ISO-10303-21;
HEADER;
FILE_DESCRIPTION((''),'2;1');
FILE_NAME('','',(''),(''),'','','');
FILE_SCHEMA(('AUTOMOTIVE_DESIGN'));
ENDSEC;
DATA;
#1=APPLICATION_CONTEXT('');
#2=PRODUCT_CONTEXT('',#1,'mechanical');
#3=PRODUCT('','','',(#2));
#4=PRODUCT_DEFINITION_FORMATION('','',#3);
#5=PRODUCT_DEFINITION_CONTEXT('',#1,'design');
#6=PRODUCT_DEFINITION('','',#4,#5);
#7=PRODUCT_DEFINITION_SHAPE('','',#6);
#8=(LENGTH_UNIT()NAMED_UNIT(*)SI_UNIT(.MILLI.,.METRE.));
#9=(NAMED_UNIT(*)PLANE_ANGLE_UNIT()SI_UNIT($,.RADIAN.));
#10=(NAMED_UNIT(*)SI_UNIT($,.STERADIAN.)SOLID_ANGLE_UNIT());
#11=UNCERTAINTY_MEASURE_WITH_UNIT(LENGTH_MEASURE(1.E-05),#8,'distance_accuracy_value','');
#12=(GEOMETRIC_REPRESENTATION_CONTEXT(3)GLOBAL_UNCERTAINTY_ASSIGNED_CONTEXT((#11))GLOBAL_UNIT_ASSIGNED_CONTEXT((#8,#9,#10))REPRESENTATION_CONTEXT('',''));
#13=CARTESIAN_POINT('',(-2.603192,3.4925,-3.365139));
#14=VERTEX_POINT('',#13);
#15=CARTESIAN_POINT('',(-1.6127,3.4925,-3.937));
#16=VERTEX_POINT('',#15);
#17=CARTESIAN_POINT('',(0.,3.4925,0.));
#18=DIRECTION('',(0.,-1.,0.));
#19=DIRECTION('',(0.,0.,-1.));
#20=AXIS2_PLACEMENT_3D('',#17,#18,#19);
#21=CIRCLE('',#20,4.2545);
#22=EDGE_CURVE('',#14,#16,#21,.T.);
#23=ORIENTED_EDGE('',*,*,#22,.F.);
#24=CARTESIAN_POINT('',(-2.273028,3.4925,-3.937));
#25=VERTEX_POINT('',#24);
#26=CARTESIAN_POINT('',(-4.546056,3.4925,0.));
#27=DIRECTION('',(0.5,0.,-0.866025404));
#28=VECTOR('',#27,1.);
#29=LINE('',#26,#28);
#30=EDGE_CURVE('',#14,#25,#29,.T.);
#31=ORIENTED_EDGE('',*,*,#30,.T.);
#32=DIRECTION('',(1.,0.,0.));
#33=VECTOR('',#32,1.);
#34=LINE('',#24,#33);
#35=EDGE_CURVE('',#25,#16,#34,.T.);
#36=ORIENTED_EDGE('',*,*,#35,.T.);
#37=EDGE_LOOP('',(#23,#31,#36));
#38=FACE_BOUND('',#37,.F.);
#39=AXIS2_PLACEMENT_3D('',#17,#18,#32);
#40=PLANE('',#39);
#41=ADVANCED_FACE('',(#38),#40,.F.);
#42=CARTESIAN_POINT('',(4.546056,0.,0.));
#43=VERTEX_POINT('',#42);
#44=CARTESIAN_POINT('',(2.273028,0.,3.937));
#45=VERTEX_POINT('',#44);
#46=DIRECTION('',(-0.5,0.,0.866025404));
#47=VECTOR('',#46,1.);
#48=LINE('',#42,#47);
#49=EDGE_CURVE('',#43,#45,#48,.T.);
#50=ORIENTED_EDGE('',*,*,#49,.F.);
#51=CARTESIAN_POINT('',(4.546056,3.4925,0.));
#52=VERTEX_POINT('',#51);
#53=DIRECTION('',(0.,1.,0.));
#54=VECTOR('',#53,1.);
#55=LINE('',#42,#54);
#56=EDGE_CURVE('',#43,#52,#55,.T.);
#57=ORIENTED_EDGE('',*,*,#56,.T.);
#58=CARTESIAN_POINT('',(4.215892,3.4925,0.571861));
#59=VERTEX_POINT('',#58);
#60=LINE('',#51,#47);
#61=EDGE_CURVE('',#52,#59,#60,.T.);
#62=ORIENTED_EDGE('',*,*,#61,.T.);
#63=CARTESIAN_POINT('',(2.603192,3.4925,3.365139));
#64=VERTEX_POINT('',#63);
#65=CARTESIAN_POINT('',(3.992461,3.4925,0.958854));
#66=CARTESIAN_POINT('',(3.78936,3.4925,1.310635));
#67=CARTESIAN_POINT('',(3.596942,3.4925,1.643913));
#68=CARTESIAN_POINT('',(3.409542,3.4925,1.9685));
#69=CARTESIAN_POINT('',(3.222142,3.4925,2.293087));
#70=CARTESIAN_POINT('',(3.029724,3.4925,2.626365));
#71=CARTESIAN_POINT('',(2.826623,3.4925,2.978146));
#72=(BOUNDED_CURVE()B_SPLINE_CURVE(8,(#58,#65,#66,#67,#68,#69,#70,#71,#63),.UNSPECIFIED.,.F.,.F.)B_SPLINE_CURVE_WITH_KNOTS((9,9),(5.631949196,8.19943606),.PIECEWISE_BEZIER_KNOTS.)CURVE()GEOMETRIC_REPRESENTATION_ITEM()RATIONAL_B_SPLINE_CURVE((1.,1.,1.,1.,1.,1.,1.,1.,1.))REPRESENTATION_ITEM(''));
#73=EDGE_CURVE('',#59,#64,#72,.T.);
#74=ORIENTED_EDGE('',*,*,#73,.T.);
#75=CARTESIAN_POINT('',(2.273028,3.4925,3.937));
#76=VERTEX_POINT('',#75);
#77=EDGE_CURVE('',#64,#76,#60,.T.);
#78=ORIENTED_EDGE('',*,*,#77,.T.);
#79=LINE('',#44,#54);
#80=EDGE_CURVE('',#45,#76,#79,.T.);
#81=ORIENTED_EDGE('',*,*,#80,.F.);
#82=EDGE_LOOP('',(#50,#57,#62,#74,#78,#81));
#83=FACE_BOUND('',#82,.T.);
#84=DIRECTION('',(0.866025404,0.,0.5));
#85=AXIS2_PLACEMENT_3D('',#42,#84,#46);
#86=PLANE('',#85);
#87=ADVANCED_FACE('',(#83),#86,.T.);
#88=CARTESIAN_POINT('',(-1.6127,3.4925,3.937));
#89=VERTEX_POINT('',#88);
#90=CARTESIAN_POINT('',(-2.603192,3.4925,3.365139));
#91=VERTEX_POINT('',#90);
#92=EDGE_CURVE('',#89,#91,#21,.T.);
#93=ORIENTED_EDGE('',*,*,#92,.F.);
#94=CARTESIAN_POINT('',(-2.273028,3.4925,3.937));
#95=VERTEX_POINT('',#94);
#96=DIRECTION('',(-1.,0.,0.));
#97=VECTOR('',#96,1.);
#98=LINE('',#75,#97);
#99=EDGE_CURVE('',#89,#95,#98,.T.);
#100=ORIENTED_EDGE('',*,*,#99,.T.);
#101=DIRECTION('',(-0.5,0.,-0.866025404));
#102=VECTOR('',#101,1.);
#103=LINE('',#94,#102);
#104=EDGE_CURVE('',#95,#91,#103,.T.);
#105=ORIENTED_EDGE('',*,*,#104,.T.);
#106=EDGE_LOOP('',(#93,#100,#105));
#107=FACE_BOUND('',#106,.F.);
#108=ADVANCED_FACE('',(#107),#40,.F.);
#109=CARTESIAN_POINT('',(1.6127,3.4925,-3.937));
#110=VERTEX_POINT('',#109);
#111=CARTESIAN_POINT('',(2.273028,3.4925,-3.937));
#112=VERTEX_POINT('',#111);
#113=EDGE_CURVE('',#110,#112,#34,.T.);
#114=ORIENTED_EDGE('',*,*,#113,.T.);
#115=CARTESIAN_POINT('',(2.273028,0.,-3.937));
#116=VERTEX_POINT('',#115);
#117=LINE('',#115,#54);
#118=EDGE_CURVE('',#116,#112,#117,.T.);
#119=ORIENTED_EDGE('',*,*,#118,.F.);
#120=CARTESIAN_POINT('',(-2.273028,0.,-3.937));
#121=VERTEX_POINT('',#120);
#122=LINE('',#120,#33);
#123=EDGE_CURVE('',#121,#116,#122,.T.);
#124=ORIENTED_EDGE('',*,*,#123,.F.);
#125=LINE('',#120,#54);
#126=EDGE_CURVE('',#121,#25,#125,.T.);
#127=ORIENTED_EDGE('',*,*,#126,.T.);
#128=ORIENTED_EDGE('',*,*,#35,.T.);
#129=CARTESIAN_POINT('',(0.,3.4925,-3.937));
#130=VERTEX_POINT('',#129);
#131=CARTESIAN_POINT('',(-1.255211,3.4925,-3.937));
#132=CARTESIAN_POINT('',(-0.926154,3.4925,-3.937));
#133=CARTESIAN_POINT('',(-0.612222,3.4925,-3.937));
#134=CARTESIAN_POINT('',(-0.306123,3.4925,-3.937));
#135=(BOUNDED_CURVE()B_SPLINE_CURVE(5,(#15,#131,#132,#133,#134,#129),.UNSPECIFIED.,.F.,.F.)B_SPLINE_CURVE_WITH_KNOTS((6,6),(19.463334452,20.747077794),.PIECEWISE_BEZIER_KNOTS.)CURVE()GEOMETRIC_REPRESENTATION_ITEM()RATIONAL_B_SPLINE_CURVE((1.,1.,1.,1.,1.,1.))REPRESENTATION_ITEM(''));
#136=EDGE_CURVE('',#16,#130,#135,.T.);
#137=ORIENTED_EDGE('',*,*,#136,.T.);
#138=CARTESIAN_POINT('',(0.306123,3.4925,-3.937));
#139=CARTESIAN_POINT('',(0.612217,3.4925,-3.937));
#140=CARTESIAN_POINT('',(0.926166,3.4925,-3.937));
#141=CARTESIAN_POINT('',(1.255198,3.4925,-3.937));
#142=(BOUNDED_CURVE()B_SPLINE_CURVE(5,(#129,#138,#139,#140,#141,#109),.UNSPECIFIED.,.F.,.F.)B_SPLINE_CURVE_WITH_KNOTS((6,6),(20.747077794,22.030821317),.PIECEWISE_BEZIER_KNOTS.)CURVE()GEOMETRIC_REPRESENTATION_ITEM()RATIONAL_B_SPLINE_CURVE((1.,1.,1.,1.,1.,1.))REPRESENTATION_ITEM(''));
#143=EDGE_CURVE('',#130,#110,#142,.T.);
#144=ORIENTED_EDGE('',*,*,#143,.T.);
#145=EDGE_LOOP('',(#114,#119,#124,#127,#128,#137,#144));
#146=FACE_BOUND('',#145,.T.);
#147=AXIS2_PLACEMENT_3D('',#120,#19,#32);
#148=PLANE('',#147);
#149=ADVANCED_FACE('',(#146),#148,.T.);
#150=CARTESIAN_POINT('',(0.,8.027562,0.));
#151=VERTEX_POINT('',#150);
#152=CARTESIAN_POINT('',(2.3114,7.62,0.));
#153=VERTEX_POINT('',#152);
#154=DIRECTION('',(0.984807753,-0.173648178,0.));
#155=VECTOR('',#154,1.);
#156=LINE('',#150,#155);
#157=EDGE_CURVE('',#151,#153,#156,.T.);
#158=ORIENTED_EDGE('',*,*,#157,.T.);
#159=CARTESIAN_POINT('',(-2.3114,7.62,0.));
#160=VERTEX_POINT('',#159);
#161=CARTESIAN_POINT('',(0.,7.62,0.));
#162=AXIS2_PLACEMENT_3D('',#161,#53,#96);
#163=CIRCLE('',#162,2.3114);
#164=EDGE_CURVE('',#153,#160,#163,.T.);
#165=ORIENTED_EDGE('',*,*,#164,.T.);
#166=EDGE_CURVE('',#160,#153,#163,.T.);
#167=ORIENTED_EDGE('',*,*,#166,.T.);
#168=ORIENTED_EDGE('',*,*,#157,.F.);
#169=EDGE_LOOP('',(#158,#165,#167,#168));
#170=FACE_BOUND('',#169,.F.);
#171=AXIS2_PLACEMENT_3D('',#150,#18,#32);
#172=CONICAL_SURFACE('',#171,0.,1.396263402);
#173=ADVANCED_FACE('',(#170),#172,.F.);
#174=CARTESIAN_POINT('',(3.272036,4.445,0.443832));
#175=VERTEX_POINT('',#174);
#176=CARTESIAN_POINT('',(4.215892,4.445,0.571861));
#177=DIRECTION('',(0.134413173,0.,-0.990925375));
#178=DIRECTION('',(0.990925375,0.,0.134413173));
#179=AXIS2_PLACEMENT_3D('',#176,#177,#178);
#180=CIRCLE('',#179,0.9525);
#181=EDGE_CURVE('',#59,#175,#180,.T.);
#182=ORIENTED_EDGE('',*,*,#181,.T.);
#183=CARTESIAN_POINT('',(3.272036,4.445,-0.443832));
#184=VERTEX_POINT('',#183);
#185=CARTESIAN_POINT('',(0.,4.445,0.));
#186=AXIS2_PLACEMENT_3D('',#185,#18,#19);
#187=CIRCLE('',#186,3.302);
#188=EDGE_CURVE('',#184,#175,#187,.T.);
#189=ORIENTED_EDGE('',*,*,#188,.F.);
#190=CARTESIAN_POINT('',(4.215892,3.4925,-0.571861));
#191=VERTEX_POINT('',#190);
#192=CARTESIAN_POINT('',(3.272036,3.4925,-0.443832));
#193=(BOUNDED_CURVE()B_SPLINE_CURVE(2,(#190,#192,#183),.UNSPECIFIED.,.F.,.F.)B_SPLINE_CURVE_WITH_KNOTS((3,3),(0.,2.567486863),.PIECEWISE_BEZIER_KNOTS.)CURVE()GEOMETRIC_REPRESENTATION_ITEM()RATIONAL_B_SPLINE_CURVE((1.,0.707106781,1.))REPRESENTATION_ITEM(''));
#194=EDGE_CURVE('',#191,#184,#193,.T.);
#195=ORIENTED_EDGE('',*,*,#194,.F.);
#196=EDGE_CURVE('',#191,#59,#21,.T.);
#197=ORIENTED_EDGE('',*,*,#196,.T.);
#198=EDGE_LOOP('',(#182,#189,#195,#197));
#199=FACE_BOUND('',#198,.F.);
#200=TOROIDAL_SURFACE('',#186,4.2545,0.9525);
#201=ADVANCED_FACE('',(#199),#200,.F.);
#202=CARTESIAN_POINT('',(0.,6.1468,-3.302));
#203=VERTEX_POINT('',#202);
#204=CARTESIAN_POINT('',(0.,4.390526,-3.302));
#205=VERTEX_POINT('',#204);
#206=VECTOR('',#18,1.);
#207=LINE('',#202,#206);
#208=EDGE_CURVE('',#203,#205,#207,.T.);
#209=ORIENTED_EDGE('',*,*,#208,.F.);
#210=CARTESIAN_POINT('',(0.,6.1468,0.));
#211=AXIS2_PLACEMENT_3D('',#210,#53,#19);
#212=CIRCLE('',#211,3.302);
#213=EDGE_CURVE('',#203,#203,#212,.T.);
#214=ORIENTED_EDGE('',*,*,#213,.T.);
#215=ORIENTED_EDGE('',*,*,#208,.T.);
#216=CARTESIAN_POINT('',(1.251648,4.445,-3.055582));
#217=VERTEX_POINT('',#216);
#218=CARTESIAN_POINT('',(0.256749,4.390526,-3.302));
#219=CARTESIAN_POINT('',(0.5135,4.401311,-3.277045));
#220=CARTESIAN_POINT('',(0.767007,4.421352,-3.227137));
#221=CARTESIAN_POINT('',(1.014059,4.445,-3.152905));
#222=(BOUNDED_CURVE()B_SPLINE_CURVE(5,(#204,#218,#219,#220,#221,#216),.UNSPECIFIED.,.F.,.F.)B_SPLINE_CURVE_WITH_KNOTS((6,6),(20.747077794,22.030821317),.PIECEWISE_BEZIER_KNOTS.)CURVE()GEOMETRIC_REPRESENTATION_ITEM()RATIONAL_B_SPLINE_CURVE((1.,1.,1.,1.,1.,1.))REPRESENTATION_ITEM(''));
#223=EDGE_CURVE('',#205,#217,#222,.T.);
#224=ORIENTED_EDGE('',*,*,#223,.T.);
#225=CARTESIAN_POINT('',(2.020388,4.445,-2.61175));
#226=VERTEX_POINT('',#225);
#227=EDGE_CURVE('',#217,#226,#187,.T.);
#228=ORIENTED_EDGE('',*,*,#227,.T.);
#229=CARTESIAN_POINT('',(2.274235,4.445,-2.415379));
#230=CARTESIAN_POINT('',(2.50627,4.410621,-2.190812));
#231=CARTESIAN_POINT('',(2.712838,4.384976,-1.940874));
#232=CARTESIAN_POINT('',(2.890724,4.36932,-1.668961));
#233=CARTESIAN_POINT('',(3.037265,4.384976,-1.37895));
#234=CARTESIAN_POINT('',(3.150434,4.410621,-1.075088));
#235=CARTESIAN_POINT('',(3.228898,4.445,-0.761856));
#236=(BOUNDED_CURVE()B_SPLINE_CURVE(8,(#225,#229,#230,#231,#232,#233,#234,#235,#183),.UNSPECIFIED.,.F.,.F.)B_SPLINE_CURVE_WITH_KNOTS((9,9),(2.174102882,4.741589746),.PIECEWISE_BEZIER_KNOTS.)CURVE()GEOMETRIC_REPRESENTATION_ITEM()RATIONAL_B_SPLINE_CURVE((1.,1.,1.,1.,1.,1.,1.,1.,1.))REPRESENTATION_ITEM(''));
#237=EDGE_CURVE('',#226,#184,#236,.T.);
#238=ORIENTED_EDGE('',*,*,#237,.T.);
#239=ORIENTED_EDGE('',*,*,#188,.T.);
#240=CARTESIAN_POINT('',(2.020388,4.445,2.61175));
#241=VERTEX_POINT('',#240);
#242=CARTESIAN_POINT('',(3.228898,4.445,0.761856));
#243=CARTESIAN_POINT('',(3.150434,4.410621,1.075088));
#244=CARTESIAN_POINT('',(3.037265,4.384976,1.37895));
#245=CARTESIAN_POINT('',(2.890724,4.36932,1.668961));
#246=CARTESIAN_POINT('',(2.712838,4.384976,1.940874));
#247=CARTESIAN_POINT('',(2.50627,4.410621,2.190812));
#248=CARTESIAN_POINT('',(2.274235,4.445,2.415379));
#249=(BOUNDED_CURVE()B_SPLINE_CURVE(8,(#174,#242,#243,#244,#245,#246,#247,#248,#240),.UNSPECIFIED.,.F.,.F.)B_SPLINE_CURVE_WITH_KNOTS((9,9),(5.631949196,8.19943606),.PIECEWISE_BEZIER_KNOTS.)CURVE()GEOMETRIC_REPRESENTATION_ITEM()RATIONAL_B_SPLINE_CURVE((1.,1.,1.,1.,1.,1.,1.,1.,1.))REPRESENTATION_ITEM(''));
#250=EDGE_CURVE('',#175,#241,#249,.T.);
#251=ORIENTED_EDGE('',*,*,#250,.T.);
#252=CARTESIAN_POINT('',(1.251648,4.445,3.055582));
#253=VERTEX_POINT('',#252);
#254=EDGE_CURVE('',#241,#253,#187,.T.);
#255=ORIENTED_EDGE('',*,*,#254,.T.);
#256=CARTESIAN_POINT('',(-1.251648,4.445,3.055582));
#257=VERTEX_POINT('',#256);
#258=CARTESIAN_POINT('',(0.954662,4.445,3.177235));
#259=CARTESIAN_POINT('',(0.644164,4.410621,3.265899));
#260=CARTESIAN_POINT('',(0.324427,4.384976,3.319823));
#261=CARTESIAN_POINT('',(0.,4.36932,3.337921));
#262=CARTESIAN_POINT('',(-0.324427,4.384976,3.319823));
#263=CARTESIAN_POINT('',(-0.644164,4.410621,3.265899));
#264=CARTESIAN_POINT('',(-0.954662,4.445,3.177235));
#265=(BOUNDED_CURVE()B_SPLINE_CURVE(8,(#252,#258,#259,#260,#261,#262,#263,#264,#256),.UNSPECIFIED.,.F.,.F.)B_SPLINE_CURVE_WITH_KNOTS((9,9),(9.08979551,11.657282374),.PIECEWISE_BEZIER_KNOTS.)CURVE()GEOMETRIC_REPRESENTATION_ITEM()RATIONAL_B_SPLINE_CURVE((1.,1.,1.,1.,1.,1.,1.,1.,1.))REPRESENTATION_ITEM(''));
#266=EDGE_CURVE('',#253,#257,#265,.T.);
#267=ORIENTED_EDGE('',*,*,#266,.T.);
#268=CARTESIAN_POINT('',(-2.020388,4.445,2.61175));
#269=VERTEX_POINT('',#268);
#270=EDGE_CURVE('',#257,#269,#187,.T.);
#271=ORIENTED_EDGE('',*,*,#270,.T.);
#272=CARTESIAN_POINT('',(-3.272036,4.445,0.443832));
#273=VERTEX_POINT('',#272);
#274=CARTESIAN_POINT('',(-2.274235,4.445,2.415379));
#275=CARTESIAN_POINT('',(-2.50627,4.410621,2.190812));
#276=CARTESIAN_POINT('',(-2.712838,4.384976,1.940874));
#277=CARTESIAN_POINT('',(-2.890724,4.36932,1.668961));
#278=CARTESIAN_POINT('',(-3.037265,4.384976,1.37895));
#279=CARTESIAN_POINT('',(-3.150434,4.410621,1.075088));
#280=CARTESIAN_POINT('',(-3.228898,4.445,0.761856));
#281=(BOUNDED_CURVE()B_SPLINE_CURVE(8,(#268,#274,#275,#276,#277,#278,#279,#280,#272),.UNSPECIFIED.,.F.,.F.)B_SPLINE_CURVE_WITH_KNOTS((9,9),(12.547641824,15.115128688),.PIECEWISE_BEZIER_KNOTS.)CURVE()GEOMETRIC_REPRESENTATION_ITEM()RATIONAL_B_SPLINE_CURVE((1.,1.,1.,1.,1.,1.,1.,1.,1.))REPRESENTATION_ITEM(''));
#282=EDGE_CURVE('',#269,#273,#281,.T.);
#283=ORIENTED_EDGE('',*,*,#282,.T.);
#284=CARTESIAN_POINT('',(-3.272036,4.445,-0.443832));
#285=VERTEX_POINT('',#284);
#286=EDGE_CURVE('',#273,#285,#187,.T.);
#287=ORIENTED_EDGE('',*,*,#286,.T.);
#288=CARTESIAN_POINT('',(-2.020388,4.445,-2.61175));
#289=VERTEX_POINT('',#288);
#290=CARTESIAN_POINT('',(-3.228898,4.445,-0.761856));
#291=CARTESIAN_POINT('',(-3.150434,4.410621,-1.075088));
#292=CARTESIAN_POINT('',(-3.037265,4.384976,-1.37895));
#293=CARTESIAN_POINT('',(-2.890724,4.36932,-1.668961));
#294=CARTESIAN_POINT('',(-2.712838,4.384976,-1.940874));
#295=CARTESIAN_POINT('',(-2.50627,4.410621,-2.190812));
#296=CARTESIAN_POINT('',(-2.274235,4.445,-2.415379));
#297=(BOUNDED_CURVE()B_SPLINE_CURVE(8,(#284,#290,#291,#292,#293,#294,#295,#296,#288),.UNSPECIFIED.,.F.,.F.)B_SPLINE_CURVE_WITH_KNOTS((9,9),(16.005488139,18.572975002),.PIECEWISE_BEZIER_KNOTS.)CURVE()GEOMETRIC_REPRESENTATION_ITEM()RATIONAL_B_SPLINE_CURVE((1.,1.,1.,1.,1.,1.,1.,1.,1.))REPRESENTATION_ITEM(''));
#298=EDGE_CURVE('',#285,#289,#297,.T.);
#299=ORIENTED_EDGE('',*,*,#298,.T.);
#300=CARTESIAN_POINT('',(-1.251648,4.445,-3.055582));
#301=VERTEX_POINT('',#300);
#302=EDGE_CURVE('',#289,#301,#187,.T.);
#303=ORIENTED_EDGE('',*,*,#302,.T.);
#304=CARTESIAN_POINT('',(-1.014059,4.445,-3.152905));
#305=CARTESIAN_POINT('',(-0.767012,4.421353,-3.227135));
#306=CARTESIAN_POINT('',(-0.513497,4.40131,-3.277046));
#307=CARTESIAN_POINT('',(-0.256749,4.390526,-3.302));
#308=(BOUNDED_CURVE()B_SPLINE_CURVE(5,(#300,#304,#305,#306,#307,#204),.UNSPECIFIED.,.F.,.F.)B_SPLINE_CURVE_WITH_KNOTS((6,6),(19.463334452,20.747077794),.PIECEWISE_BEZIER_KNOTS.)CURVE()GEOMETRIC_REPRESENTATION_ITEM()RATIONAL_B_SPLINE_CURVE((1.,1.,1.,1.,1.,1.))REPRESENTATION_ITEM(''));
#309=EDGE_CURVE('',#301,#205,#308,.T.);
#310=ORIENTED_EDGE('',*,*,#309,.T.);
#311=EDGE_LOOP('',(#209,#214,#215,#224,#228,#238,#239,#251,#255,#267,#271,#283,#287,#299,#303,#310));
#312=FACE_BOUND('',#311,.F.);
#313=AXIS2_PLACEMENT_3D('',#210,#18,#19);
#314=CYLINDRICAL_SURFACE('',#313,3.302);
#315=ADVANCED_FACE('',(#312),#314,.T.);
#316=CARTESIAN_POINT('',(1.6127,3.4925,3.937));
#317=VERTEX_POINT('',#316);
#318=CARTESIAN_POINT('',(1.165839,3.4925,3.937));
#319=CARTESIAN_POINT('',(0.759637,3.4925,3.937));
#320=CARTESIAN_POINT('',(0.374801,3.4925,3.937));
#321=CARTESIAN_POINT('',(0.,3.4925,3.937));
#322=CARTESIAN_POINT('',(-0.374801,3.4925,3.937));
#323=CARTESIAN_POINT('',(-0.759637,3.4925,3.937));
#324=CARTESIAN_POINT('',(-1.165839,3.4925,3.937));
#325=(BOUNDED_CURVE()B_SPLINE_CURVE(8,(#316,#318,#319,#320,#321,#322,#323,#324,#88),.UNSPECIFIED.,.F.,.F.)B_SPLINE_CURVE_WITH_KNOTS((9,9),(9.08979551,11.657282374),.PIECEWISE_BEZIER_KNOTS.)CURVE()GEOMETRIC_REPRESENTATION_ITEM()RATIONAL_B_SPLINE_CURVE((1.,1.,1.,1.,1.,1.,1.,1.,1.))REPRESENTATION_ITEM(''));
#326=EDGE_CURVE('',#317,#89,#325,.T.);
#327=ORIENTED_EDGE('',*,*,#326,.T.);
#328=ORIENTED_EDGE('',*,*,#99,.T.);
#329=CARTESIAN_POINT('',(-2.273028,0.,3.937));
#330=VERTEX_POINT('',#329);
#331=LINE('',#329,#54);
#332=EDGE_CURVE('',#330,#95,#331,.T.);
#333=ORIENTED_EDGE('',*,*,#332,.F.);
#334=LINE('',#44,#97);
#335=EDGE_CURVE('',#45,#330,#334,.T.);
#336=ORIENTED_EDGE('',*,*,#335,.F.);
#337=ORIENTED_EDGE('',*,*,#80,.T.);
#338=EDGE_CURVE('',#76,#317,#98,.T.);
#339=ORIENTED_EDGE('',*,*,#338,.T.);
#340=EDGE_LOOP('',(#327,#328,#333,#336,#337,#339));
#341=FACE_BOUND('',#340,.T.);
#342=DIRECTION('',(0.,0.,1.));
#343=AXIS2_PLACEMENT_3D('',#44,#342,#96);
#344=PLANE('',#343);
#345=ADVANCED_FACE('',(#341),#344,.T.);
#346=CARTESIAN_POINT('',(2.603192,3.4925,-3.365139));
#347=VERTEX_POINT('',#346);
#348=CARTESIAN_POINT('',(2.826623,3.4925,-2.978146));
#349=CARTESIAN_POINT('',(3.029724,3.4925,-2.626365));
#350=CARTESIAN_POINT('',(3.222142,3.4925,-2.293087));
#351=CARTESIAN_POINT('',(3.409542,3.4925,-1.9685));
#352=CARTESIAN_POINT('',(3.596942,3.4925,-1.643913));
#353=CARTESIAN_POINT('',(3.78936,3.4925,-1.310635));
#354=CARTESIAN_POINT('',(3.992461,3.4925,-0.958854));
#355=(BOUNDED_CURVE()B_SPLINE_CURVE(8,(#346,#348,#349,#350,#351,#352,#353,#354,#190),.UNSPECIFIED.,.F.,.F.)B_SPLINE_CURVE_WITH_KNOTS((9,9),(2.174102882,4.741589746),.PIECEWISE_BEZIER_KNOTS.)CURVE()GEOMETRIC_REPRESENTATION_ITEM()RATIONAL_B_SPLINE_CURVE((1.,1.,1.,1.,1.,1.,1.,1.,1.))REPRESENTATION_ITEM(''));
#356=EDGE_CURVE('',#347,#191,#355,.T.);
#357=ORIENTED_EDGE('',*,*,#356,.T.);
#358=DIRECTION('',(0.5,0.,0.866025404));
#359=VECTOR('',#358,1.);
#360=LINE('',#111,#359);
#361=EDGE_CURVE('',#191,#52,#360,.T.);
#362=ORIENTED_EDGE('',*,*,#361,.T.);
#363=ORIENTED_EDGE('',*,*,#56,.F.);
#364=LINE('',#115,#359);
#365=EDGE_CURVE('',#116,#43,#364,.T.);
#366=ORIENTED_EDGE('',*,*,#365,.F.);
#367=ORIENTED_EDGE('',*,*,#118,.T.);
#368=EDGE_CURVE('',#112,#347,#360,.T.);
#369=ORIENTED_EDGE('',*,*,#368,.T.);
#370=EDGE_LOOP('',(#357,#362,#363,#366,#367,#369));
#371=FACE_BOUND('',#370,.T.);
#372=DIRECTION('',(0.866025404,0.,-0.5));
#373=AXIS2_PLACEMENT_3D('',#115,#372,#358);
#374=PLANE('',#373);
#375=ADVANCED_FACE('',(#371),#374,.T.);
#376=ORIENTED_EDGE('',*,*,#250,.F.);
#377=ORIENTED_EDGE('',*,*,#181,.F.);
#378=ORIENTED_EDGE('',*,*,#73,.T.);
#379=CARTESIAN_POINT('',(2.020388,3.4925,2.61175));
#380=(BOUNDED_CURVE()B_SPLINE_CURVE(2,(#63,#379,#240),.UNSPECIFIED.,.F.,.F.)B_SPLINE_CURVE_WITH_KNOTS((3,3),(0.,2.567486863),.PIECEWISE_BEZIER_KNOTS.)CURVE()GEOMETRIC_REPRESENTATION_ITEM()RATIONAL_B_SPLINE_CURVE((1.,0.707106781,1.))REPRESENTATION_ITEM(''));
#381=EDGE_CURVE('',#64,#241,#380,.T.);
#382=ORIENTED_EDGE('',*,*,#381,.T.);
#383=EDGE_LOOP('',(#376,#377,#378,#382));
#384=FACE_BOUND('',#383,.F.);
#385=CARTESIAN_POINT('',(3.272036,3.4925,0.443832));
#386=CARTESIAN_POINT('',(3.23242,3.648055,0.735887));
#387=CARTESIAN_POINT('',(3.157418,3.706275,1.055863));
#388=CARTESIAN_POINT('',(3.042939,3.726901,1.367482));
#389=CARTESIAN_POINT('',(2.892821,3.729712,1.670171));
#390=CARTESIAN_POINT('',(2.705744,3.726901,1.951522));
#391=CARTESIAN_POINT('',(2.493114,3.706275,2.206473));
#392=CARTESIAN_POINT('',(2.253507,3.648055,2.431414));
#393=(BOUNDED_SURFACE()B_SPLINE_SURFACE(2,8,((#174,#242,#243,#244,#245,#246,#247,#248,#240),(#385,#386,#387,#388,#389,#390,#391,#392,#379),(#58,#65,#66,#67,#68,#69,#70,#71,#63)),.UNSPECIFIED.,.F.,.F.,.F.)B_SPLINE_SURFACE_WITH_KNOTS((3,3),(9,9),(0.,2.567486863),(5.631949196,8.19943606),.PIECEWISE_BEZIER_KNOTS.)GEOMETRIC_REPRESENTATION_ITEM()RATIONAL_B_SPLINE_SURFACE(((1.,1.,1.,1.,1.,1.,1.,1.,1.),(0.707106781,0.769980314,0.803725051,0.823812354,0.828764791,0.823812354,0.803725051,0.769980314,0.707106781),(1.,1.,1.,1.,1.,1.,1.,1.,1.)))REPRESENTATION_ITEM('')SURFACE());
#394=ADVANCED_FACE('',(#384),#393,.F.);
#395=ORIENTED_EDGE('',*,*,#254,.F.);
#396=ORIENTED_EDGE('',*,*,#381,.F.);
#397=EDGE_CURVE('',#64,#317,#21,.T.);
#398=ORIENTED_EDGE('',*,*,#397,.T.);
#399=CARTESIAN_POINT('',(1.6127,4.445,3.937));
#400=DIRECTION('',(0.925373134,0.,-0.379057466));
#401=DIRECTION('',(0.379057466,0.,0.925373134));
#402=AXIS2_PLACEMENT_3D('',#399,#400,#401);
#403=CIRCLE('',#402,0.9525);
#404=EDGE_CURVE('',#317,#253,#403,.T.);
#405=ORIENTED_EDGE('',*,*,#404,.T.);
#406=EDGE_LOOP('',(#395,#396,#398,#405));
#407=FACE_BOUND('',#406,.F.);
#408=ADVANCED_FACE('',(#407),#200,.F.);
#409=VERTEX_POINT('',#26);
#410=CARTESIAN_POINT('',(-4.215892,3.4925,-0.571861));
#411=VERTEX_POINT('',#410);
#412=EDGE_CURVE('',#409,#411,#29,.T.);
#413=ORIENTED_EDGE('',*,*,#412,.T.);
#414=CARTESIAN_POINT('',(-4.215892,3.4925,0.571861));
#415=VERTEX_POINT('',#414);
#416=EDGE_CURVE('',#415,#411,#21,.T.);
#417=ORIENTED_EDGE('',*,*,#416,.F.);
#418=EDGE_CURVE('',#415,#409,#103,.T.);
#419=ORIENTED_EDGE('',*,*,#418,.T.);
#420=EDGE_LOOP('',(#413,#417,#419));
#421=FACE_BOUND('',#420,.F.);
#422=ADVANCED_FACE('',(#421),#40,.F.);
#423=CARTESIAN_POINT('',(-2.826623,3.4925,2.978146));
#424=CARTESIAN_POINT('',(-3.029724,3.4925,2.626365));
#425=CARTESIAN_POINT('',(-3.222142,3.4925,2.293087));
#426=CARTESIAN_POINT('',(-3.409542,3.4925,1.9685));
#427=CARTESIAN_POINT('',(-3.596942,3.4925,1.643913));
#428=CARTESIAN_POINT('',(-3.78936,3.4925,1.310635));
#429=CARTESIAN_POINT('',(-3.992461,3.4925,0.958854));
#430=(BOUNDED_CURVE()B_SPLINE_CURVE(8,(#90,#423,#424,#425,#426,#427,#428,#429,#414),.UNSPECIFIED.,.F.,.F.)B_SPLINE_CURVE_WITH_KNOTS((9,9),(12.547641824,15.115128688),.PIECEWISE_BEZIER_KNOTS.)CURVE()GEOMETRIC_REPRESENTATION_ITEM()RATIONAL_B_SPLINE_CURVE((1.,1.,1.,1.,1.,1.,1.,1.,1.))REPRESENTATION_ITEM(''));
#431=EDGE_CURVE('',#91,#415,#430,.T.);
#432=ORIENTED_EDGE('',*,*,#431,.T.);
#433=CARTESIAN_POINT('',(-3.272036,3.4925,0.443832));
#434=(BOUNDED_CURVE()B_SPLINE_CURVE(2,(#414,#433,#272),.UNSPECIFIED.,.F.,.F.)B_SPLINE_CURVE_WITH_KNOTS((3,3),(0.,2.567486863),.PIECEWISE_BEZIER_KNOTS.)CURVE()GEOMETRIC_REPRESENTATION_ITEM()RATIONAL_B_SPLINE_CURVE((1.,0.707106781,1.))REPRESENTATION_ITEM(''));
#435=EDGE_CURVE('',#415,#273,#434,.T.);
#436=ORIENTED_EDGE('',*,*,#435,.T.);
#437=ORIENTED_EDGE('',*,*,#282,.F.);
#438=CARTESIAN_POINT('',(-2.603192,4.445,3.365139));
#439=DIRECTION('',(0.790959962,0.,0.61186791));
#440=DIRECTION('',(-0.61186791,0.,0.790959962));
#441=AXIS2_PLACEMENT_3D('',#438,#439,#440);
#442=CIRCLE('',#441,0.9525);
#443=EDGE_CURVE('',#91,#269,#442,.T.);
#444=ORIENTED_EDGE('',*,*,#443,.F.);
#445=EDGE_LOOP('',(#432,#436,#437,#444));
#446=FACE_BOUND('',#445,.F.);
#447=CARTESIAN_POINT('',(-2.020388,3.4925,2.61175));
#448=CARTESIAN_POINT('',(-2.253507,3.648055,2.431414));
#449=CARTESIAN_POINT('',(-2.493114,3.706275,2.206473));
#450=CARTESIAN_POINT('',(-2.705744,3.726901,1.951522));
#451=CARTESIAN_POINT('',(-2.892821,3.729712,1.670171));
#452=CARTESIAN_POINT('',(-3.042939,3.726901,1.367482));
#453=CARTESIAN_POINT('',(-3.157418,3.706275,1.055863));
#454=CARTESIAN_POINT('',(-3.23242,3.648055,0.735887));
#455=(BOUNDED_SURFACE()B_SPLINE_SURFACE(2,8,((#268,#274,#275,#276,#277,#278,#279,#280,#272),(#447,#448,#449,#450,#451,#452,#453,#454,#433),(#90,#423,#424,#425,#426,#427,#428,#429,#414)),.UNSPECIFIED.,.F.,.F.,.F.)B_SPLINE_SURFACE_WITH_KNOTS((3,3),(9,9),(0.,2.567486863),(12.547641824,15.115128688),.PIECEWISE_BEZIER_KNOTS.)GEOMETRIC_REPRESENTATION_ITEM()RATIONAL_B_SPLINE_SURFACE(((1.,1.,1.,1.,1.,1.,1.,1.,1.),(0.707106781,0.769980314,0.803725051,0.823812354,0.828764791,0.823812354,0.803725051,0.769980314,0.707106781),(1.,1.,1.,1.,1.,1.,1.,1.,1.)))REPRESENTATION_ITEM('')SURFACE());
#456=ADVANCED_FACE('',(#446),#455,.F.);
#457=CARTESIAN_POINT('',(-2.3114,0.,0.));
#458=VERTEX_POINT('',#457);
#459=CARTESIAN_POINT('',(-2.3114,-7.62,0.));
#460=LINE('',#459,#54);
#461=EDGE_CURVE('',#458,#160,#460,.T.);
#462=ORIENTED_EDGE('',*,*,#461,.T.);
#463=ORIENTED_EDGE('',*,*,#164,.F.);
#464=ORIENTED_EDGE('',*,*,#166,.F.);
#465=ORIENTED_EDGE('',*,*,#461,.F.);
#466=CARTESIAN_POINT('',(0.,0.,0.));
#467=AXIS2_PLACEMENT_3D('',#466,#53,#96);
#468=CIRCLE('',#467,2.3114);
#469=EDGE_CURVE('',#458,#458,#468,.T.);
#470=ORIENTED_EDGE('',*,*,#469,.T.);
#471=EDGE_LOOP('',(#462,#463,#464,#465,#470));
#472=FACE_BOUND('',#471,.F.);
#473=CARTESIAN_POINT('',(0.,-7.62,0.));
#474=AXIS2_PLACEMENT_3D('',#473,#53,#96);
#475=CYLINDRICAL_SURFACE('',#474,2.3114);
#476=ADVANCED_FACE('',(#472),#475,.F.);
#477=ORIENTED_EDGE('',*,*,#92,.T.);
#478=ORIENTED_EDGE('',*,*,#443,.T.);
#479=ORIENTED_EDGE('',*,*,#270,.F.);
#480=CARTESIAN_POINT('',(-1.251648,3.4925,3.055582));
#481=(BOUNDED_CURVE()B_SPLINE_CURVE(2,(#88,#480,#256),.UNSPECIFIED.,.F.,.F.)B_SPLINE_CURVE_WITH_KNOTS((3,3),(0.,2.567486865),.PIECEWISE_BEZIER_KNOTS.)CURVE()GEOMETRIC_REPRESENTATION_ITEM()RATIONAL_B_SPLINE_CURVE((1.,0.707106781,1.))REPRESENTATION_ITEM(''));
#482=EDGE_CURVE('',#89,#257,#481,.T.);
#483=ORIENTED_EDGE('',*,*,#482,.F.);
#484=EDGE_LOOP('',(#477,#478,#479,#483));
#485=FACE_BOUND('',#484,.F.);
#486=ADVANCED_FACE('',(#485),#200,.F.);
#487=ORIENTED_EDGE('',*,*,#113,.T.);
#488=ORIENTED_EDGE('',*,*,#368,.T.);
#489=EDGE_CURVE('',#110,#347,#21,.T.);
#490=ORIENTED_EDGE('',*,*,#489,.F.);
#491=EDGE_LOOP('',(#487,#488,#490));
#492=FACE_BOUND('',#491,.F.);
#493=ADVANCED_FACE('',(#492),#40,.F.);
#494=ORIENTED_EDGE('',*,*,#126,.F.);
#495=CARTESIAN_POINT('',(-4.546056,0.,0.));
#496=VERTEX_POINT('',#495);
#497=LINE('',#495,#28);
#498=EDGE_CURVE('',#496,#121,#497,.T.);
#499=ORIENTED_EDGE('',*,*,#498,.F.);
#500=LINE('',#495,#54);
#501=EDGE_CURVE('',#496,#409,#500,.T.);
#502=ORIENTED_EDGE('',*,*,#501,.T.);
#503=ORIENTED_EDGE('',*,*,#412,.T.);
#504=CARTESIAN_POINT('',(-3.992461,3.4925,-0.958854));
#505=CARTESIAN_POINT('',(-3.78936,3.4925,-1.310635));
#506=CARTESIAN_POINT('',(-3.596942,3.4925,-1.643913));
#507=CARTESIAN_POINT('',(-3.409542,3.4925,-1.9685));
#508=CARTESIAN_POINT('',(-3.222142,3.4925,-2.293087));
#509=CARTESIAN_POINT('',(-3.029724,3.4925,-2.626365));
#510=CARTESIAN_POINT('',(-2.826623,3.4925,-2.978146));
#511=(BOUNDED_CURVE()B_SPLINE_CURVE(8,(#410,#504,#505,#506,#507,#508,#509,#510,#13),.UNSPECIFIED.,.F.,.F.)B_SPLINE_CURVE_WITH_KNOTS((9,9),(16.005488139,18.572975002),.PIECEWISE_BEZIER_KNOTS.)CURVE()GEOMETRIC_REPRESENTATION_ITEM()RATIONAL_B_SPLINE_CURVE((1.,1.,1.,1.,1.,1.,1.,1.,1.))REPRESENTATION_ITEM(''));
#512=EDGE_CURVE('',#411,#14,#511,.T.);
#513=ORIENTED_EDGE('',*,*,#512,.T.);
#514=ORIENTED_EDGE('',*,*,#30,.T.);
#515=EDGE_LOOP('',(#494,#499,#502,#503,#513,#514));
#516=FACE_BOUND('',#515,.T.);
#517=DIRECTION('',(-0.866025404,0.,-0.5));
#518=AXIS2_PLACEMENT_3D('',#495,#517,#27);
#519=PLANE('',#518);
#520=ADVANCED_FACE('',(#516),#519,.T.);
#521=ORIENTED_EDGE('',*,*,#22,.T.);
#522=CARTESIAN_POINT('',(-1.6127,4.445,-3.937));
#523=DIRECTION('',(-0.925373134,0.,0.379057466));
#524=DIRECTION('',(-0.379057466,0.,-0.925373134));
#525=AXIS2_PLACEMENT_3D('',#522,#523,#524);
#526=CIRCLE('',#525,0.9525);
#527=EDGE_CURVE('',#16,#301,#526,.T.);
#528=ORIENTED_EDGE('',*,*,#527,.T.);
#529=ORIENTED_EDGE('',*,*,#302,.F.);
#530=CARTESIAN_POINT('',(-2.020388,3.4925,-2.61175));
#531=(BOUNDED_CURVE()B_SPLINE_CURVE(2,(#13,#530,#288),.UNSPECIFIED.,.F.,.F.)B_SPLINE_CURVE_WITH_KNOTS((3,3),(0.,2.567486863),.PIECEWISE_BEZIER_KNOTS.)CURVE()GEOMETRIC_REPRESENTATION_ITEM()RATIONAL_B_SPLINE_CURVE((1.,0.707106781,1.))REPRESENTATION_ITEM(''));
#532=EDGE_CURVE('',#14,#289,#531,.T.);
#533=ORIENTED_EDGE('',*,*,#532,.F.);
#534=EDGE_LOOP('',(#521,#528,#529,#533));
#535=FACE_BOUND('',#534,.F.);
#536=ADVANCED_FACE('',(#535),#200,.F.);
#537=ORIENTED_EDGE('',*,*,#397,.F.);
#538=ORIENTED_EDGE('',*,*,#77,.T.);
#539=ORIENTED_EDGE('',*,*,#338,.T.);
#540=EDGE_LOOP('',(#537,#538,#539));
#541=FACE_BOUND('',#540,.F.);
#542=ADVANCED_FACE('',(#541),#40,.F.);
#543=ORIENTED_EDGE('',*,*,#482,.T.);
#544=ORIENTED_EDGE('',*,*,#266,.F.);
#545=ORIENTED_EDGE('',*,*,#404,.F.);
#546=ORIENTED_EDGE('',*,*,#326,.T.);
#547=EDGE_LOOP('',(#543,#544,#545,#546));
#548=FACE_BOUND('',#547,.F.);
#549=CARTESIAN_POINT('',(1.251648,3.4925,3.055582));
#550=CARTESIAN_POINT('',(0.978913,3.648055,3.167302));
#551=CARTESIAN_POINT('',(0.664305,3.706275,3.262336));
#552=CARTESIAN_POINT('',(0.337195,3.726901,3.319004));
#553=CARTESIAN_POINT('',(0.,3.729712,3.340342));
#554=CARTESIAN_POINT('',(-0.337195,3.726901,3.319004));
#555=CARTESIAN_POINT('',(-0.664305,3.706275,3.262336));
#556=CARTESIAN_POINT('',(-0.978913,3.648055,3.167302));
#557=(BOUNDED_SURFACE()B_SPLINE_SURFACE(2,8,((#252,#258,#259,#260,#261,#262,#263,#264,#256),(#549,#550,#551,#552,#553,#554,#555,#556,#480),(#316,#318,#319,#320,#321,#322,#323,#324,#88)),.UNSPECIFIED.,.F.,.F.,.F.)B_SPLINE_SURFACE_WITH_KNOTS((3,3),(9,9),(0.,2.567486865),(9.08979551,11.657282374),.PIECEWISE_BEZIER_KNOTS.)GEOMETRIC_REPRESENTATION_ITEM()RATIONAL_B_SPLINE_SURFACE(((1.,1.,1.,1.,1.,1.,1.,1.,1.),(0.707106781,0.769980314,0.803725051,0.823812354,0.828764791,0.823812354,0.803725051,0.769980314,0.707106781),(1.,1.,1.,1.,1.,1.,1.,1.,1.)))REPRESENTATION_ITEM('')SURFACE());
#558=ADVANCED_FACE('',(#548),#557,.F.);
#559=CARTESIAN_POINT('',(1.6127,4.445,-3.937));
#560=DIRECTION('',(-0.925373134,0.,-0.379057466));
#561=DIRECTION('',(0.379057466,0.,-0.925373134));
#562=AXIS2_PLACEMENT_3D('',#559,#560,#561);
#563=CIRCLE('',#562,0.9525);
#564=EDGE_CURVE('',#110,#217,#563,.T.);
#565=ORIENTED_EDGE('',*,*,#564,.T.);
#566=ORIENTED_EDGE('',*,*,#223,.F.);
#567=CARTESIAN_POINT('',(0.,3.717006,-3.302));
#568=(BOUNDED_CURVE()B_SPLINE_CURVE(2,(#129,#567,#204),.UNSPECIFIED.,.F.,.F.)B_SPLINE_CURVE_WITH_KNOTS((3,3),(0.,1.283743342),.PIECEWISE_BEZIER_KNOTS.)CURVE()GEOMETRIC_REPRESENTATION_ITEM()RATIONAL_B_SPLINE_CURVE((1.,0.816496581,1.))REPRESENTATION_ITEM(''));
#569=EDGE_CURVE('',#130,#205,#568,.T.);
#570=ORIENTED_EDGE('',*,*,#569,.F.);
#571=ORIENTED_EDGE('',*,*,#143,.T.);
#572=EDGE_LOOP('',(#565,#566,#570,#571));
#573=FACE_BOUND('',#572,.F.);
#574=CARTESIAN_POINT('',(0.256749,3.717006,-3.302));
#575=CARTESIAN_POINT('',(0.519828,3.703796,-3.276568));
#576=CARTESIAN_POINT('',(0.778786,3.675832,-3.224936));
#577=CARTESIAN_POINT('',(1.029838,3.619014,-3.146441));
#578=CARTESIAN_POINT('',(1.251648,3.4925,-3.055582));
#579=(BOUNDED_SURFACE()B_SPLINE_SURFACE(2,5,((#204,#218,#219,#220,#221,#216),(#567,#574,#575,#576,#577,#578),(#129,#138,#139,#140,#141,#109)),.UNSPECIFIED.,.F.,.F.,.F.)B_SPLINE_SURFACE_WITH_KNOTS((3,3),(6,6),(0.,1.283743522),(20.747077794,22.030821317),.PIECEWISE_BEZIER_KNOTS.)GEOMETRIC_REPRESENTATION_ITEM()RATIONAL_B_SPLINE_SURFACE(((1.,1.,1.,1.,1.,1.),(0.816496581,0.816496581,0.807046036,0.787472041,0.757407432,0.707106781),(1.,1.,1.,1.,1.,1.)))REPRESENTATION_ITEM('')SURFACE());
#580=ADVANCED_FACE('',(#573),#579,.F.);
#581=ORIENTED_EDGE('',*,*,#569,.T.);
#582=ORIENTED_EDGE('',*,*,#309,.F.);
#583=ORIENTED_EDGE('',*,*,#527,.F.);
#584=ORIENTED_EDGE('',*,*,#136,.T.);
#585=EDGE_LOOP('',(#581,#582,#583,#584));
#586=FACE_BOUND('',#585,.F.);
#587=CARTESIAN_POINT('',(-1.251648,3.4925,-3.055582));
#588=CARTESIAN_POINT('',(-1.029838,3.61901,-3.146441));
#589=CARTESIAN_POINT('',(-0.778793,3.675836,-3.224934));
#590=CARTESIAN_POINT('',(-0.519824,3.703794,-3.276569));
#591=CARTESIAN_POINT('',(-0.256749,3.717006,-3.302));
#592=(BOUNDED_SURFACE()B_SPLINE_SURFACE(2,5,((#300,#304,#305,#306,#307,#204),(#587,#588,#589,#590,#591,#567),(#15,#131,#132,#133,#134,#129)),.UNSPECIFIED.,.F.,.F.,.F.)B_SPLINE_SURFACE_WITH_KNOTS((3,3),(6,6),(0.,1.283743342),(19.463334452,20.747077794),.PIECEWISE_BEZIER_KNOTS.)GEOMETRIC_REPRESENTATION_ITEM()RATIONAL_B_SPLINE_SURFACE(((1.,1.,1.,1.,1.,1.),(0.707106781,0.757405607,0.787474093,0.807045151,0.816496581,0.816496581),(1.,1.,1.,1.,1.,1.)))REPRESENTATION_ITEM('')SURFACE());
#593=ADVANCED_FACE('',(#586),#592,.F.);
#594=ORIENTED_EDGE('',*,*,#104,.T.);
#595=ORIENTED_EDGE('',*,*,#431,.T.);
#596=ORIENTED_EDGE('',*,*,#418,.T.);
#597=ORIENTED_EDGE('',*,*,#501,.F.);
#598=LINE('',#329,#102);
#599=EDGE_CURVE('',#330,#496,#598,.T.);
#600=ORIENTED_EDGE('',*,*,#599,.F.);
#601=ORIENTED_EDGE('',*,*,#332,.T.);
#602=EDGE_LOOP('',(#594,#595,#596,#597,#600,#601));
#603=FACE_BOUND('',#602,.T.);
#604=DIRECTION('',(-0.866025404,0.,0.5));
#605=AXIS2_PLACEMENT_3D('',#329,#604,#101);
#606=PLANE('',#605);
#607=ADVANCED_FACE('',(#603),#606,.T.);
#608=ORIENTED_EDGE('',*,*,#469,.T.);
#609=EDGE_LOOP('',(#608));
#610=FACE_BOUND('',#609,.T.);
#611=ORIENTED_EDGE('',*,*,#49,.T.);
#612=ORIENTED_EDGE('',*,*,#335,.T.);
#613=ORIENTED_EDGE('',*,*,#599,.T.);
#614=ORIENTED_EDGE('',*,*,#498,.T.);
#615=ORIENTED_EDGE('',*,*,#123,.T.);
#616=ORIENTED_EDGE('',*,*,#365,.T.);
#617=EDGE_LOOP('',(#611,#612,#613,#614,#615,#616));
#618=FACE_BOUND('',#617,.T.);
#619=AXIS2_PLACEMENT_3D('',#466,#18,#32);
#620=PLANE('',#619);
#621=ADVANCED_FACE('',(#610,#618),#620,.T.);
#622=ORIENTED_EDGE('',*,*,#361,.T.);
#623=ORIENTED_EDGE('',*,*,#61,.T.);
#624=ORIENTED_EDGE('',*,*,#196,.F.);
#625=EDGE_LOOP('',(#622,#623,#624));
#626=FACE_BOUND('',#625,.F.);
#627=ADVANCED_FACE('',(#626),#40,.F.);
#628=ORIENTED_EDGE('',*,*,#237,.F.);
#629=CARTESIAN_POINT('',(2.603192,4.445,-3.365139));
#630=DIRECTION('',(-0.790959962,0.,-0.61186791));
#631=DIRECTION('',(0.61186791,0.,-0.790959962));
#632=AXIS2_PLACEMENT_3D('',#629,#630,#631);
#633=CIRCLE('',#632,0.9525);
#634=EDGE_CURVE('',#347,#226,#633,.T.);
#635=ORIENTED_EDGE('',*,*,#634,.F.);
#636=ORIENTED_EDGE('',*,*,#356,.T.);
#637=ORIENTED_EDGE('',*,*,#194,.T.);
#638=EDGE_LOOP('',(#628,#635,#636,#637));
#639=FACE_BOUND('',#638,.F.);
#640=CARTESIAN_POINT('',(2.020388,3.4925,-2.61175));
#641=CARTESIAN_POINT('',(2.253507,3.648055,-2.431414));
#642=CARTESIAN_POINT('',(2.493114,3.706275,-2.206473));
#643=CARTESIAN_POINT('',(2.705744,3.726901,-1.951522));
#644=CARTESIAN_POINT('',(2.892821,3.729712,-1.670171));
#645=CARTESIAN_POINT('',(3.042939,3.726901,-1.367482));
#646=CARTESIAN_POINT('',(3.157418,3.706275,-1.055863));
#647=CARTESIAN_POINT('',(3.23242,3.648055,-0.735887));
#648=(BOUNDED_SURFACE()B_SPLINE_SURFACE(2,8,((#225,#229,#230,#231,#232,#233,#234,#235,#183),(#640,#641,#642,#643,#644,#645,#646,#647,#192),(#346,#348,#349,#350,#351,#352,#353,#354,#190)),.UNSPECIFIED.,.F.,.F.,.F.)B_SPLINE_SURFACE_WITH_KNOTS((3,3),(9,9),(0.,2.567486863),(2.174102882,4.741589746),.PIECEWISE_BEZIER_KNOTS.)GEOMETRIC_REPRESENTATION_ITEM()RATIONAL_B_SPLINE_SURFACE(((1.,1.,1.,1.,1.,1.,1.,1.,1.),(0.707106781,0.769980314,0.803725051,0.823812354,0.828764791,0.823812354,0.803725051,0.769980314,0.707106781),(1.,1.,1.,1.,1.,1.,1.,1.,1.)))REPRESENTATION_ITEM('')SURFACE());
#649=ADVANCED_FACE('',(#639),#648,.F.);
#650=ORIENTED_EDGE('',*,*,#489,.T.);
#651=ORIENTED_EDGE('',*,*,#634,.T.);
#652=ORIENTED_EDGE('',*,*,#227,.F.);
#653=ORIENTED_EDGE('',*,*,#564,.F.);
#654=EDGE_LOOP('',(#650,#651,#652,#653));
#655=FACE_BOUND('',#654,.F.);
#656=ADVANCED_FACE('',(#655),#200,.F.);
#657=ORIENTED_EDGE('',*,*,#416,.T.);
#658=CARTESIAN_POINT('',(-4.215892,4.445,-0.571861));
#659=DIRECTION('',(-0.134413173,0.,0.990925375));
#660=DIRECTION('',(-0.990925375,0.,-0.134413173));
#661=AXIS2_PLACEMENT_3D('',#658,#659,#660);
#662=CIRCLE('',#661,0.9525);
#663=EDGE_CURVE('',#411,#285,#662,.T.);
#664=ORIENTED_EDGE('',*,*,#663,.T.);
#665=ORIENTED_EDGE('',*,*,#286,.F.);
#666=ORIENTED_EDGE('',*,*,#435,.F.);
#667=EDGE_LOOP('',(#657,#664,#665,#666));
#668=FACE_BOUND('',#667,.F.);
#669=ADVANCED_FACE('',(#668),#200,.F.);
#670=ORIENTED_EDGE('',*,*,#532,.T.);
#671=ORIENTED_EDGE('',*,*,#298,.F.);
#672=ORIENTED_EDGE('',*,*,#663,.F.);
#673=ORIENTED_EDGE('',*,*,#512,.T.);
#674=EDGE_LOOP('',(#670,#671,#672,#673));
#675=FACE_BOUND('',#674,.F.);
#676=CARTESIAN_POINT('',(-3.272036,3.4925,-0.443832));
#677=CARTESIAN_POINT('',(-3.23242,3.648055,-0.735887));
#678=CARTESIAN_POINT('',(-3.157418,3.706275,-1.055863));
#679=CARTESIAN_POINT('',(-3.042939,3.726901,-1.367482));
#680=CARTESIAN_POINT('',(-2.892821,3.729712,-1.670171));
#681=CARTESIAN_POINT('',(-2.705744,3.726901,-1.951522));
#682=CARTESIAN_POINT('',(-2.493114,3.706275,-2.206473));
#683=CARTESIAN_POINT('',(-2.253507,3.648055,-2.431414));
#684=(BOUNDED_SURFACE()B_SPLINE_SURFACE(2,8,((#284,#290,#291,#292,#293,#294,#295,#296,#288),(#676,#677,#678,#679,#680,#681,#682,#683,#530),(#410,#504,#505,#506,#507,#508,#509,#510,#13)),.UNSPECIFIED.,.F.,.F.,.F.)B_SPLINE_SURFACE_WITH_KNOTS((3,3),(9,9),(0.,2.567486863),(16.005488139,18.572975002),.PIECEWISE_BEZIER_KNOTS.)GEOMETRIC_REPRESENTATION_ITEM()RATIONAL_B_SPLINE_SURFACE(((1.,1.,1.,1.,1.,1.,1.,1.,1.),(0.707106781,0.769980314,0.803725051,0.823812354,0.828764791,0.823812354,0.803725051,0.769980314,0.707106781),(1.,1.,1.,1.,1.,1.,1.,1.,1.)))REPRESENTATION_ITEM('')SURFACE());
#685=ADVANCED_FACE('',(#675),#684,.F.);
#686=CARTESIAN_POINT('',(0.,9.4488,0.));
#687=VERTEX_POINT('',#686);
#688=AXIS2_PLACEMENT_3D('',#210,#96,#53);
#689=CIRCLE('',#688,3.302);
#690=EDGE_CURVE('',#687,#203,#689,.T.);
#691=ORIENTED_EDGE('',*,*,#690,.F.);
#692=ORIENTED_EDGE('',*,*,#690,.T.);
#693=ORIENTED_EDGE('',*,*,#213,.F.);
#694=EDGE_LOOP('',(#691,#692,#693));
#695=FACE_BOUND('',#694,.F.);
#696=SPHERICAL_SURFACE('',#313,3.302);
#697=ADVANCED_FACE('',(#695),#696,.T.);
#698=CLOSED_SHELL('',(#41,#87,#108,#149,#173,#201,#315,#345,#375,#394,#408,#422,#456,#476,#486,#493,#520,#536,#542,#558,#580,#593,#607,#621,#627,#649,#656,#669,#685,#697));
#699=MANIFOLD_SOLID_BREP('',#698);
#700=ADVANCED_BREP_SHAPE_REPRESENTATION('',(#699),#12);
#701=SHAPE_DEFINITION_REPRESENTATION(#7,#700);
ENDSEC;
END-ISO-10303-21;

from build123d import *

# Parameters (mm, degrees)
BOSS_EXTRUDE1_DEPTH        = 3.4925
F_12_28_TAPPED_HOLE1_D     = 4.6228
F_12_28_TAPPED_HOLE1_DEPTH = 7.62
F_12_28_TAPPED_HOLE1_TIP   = 0.407562183
FILLET2_R                  = 0.9525


with BuildPart() as part:
    # Sketch1 → Revolve2 (revolve)
    with BuildSketch(Plane.XY, mode=Mode.PRIVATE) as revolve2_sk:
        with BuildLine():
            Line((0, 0), (0, 9.4488))
            ThreePointArc((0, 9.4488), (-2.334866591, 8.481666591), (-3.302, 6.1468))
            Line((-3.302, 6.1468), (-3.302, 0))
            Line((-3.302, 0), (0, 0))
        make_face()
    revolve(revolve2_sk.sketch.rotate(Axis((0, 0, 0), (0, 1, 0)), 270), axis=Axis((0, 0, 0), (0, 1, 0)))

    # Sketch2 → Boss-Extrude1 (add)
    with BuildSketch(Plane.XZ):
        Polygon((4.54605602, 0), (2.27302801, 3.937), (-2.27302801, 3.937), (-4.54605602, 0), (-2.27302801, -3.937), (2.27302801, -3.937), align=None)
    extrude(amount=-BOSS_EXTRUDE1_DEPTH)

    # #12-28 Tapped Hole1
    with Locations(Plane.XZ):
        with Locations((0, 0)):
            Hole(F_12_28_TAPPED_HOLE1_D / 2, depth=F_12_28_TAPPED_HOLE1_DEPTH)
            with Locations((0, 0, -(F_12_28_TAPPED_HOLE1_DEPTH + F_12_28_TAPPED_HOLE1_TIP / 2))):  # 160° drill point
                Cone(0, F_12_28_TAPPED_HOLE1_D / 2, F_12_28_TAPPED_HOLE1_TIP, mode=Mode.SUBTRACT)

    # Fillet2
    fillet2_edges = [part.edges().sort_by_distance(p)[0] for p in [
        (0, 3.4925, 3.302),
    ]]
    fillet(fillet2_edges, radius=FILLET2_R)


solid = part.part
